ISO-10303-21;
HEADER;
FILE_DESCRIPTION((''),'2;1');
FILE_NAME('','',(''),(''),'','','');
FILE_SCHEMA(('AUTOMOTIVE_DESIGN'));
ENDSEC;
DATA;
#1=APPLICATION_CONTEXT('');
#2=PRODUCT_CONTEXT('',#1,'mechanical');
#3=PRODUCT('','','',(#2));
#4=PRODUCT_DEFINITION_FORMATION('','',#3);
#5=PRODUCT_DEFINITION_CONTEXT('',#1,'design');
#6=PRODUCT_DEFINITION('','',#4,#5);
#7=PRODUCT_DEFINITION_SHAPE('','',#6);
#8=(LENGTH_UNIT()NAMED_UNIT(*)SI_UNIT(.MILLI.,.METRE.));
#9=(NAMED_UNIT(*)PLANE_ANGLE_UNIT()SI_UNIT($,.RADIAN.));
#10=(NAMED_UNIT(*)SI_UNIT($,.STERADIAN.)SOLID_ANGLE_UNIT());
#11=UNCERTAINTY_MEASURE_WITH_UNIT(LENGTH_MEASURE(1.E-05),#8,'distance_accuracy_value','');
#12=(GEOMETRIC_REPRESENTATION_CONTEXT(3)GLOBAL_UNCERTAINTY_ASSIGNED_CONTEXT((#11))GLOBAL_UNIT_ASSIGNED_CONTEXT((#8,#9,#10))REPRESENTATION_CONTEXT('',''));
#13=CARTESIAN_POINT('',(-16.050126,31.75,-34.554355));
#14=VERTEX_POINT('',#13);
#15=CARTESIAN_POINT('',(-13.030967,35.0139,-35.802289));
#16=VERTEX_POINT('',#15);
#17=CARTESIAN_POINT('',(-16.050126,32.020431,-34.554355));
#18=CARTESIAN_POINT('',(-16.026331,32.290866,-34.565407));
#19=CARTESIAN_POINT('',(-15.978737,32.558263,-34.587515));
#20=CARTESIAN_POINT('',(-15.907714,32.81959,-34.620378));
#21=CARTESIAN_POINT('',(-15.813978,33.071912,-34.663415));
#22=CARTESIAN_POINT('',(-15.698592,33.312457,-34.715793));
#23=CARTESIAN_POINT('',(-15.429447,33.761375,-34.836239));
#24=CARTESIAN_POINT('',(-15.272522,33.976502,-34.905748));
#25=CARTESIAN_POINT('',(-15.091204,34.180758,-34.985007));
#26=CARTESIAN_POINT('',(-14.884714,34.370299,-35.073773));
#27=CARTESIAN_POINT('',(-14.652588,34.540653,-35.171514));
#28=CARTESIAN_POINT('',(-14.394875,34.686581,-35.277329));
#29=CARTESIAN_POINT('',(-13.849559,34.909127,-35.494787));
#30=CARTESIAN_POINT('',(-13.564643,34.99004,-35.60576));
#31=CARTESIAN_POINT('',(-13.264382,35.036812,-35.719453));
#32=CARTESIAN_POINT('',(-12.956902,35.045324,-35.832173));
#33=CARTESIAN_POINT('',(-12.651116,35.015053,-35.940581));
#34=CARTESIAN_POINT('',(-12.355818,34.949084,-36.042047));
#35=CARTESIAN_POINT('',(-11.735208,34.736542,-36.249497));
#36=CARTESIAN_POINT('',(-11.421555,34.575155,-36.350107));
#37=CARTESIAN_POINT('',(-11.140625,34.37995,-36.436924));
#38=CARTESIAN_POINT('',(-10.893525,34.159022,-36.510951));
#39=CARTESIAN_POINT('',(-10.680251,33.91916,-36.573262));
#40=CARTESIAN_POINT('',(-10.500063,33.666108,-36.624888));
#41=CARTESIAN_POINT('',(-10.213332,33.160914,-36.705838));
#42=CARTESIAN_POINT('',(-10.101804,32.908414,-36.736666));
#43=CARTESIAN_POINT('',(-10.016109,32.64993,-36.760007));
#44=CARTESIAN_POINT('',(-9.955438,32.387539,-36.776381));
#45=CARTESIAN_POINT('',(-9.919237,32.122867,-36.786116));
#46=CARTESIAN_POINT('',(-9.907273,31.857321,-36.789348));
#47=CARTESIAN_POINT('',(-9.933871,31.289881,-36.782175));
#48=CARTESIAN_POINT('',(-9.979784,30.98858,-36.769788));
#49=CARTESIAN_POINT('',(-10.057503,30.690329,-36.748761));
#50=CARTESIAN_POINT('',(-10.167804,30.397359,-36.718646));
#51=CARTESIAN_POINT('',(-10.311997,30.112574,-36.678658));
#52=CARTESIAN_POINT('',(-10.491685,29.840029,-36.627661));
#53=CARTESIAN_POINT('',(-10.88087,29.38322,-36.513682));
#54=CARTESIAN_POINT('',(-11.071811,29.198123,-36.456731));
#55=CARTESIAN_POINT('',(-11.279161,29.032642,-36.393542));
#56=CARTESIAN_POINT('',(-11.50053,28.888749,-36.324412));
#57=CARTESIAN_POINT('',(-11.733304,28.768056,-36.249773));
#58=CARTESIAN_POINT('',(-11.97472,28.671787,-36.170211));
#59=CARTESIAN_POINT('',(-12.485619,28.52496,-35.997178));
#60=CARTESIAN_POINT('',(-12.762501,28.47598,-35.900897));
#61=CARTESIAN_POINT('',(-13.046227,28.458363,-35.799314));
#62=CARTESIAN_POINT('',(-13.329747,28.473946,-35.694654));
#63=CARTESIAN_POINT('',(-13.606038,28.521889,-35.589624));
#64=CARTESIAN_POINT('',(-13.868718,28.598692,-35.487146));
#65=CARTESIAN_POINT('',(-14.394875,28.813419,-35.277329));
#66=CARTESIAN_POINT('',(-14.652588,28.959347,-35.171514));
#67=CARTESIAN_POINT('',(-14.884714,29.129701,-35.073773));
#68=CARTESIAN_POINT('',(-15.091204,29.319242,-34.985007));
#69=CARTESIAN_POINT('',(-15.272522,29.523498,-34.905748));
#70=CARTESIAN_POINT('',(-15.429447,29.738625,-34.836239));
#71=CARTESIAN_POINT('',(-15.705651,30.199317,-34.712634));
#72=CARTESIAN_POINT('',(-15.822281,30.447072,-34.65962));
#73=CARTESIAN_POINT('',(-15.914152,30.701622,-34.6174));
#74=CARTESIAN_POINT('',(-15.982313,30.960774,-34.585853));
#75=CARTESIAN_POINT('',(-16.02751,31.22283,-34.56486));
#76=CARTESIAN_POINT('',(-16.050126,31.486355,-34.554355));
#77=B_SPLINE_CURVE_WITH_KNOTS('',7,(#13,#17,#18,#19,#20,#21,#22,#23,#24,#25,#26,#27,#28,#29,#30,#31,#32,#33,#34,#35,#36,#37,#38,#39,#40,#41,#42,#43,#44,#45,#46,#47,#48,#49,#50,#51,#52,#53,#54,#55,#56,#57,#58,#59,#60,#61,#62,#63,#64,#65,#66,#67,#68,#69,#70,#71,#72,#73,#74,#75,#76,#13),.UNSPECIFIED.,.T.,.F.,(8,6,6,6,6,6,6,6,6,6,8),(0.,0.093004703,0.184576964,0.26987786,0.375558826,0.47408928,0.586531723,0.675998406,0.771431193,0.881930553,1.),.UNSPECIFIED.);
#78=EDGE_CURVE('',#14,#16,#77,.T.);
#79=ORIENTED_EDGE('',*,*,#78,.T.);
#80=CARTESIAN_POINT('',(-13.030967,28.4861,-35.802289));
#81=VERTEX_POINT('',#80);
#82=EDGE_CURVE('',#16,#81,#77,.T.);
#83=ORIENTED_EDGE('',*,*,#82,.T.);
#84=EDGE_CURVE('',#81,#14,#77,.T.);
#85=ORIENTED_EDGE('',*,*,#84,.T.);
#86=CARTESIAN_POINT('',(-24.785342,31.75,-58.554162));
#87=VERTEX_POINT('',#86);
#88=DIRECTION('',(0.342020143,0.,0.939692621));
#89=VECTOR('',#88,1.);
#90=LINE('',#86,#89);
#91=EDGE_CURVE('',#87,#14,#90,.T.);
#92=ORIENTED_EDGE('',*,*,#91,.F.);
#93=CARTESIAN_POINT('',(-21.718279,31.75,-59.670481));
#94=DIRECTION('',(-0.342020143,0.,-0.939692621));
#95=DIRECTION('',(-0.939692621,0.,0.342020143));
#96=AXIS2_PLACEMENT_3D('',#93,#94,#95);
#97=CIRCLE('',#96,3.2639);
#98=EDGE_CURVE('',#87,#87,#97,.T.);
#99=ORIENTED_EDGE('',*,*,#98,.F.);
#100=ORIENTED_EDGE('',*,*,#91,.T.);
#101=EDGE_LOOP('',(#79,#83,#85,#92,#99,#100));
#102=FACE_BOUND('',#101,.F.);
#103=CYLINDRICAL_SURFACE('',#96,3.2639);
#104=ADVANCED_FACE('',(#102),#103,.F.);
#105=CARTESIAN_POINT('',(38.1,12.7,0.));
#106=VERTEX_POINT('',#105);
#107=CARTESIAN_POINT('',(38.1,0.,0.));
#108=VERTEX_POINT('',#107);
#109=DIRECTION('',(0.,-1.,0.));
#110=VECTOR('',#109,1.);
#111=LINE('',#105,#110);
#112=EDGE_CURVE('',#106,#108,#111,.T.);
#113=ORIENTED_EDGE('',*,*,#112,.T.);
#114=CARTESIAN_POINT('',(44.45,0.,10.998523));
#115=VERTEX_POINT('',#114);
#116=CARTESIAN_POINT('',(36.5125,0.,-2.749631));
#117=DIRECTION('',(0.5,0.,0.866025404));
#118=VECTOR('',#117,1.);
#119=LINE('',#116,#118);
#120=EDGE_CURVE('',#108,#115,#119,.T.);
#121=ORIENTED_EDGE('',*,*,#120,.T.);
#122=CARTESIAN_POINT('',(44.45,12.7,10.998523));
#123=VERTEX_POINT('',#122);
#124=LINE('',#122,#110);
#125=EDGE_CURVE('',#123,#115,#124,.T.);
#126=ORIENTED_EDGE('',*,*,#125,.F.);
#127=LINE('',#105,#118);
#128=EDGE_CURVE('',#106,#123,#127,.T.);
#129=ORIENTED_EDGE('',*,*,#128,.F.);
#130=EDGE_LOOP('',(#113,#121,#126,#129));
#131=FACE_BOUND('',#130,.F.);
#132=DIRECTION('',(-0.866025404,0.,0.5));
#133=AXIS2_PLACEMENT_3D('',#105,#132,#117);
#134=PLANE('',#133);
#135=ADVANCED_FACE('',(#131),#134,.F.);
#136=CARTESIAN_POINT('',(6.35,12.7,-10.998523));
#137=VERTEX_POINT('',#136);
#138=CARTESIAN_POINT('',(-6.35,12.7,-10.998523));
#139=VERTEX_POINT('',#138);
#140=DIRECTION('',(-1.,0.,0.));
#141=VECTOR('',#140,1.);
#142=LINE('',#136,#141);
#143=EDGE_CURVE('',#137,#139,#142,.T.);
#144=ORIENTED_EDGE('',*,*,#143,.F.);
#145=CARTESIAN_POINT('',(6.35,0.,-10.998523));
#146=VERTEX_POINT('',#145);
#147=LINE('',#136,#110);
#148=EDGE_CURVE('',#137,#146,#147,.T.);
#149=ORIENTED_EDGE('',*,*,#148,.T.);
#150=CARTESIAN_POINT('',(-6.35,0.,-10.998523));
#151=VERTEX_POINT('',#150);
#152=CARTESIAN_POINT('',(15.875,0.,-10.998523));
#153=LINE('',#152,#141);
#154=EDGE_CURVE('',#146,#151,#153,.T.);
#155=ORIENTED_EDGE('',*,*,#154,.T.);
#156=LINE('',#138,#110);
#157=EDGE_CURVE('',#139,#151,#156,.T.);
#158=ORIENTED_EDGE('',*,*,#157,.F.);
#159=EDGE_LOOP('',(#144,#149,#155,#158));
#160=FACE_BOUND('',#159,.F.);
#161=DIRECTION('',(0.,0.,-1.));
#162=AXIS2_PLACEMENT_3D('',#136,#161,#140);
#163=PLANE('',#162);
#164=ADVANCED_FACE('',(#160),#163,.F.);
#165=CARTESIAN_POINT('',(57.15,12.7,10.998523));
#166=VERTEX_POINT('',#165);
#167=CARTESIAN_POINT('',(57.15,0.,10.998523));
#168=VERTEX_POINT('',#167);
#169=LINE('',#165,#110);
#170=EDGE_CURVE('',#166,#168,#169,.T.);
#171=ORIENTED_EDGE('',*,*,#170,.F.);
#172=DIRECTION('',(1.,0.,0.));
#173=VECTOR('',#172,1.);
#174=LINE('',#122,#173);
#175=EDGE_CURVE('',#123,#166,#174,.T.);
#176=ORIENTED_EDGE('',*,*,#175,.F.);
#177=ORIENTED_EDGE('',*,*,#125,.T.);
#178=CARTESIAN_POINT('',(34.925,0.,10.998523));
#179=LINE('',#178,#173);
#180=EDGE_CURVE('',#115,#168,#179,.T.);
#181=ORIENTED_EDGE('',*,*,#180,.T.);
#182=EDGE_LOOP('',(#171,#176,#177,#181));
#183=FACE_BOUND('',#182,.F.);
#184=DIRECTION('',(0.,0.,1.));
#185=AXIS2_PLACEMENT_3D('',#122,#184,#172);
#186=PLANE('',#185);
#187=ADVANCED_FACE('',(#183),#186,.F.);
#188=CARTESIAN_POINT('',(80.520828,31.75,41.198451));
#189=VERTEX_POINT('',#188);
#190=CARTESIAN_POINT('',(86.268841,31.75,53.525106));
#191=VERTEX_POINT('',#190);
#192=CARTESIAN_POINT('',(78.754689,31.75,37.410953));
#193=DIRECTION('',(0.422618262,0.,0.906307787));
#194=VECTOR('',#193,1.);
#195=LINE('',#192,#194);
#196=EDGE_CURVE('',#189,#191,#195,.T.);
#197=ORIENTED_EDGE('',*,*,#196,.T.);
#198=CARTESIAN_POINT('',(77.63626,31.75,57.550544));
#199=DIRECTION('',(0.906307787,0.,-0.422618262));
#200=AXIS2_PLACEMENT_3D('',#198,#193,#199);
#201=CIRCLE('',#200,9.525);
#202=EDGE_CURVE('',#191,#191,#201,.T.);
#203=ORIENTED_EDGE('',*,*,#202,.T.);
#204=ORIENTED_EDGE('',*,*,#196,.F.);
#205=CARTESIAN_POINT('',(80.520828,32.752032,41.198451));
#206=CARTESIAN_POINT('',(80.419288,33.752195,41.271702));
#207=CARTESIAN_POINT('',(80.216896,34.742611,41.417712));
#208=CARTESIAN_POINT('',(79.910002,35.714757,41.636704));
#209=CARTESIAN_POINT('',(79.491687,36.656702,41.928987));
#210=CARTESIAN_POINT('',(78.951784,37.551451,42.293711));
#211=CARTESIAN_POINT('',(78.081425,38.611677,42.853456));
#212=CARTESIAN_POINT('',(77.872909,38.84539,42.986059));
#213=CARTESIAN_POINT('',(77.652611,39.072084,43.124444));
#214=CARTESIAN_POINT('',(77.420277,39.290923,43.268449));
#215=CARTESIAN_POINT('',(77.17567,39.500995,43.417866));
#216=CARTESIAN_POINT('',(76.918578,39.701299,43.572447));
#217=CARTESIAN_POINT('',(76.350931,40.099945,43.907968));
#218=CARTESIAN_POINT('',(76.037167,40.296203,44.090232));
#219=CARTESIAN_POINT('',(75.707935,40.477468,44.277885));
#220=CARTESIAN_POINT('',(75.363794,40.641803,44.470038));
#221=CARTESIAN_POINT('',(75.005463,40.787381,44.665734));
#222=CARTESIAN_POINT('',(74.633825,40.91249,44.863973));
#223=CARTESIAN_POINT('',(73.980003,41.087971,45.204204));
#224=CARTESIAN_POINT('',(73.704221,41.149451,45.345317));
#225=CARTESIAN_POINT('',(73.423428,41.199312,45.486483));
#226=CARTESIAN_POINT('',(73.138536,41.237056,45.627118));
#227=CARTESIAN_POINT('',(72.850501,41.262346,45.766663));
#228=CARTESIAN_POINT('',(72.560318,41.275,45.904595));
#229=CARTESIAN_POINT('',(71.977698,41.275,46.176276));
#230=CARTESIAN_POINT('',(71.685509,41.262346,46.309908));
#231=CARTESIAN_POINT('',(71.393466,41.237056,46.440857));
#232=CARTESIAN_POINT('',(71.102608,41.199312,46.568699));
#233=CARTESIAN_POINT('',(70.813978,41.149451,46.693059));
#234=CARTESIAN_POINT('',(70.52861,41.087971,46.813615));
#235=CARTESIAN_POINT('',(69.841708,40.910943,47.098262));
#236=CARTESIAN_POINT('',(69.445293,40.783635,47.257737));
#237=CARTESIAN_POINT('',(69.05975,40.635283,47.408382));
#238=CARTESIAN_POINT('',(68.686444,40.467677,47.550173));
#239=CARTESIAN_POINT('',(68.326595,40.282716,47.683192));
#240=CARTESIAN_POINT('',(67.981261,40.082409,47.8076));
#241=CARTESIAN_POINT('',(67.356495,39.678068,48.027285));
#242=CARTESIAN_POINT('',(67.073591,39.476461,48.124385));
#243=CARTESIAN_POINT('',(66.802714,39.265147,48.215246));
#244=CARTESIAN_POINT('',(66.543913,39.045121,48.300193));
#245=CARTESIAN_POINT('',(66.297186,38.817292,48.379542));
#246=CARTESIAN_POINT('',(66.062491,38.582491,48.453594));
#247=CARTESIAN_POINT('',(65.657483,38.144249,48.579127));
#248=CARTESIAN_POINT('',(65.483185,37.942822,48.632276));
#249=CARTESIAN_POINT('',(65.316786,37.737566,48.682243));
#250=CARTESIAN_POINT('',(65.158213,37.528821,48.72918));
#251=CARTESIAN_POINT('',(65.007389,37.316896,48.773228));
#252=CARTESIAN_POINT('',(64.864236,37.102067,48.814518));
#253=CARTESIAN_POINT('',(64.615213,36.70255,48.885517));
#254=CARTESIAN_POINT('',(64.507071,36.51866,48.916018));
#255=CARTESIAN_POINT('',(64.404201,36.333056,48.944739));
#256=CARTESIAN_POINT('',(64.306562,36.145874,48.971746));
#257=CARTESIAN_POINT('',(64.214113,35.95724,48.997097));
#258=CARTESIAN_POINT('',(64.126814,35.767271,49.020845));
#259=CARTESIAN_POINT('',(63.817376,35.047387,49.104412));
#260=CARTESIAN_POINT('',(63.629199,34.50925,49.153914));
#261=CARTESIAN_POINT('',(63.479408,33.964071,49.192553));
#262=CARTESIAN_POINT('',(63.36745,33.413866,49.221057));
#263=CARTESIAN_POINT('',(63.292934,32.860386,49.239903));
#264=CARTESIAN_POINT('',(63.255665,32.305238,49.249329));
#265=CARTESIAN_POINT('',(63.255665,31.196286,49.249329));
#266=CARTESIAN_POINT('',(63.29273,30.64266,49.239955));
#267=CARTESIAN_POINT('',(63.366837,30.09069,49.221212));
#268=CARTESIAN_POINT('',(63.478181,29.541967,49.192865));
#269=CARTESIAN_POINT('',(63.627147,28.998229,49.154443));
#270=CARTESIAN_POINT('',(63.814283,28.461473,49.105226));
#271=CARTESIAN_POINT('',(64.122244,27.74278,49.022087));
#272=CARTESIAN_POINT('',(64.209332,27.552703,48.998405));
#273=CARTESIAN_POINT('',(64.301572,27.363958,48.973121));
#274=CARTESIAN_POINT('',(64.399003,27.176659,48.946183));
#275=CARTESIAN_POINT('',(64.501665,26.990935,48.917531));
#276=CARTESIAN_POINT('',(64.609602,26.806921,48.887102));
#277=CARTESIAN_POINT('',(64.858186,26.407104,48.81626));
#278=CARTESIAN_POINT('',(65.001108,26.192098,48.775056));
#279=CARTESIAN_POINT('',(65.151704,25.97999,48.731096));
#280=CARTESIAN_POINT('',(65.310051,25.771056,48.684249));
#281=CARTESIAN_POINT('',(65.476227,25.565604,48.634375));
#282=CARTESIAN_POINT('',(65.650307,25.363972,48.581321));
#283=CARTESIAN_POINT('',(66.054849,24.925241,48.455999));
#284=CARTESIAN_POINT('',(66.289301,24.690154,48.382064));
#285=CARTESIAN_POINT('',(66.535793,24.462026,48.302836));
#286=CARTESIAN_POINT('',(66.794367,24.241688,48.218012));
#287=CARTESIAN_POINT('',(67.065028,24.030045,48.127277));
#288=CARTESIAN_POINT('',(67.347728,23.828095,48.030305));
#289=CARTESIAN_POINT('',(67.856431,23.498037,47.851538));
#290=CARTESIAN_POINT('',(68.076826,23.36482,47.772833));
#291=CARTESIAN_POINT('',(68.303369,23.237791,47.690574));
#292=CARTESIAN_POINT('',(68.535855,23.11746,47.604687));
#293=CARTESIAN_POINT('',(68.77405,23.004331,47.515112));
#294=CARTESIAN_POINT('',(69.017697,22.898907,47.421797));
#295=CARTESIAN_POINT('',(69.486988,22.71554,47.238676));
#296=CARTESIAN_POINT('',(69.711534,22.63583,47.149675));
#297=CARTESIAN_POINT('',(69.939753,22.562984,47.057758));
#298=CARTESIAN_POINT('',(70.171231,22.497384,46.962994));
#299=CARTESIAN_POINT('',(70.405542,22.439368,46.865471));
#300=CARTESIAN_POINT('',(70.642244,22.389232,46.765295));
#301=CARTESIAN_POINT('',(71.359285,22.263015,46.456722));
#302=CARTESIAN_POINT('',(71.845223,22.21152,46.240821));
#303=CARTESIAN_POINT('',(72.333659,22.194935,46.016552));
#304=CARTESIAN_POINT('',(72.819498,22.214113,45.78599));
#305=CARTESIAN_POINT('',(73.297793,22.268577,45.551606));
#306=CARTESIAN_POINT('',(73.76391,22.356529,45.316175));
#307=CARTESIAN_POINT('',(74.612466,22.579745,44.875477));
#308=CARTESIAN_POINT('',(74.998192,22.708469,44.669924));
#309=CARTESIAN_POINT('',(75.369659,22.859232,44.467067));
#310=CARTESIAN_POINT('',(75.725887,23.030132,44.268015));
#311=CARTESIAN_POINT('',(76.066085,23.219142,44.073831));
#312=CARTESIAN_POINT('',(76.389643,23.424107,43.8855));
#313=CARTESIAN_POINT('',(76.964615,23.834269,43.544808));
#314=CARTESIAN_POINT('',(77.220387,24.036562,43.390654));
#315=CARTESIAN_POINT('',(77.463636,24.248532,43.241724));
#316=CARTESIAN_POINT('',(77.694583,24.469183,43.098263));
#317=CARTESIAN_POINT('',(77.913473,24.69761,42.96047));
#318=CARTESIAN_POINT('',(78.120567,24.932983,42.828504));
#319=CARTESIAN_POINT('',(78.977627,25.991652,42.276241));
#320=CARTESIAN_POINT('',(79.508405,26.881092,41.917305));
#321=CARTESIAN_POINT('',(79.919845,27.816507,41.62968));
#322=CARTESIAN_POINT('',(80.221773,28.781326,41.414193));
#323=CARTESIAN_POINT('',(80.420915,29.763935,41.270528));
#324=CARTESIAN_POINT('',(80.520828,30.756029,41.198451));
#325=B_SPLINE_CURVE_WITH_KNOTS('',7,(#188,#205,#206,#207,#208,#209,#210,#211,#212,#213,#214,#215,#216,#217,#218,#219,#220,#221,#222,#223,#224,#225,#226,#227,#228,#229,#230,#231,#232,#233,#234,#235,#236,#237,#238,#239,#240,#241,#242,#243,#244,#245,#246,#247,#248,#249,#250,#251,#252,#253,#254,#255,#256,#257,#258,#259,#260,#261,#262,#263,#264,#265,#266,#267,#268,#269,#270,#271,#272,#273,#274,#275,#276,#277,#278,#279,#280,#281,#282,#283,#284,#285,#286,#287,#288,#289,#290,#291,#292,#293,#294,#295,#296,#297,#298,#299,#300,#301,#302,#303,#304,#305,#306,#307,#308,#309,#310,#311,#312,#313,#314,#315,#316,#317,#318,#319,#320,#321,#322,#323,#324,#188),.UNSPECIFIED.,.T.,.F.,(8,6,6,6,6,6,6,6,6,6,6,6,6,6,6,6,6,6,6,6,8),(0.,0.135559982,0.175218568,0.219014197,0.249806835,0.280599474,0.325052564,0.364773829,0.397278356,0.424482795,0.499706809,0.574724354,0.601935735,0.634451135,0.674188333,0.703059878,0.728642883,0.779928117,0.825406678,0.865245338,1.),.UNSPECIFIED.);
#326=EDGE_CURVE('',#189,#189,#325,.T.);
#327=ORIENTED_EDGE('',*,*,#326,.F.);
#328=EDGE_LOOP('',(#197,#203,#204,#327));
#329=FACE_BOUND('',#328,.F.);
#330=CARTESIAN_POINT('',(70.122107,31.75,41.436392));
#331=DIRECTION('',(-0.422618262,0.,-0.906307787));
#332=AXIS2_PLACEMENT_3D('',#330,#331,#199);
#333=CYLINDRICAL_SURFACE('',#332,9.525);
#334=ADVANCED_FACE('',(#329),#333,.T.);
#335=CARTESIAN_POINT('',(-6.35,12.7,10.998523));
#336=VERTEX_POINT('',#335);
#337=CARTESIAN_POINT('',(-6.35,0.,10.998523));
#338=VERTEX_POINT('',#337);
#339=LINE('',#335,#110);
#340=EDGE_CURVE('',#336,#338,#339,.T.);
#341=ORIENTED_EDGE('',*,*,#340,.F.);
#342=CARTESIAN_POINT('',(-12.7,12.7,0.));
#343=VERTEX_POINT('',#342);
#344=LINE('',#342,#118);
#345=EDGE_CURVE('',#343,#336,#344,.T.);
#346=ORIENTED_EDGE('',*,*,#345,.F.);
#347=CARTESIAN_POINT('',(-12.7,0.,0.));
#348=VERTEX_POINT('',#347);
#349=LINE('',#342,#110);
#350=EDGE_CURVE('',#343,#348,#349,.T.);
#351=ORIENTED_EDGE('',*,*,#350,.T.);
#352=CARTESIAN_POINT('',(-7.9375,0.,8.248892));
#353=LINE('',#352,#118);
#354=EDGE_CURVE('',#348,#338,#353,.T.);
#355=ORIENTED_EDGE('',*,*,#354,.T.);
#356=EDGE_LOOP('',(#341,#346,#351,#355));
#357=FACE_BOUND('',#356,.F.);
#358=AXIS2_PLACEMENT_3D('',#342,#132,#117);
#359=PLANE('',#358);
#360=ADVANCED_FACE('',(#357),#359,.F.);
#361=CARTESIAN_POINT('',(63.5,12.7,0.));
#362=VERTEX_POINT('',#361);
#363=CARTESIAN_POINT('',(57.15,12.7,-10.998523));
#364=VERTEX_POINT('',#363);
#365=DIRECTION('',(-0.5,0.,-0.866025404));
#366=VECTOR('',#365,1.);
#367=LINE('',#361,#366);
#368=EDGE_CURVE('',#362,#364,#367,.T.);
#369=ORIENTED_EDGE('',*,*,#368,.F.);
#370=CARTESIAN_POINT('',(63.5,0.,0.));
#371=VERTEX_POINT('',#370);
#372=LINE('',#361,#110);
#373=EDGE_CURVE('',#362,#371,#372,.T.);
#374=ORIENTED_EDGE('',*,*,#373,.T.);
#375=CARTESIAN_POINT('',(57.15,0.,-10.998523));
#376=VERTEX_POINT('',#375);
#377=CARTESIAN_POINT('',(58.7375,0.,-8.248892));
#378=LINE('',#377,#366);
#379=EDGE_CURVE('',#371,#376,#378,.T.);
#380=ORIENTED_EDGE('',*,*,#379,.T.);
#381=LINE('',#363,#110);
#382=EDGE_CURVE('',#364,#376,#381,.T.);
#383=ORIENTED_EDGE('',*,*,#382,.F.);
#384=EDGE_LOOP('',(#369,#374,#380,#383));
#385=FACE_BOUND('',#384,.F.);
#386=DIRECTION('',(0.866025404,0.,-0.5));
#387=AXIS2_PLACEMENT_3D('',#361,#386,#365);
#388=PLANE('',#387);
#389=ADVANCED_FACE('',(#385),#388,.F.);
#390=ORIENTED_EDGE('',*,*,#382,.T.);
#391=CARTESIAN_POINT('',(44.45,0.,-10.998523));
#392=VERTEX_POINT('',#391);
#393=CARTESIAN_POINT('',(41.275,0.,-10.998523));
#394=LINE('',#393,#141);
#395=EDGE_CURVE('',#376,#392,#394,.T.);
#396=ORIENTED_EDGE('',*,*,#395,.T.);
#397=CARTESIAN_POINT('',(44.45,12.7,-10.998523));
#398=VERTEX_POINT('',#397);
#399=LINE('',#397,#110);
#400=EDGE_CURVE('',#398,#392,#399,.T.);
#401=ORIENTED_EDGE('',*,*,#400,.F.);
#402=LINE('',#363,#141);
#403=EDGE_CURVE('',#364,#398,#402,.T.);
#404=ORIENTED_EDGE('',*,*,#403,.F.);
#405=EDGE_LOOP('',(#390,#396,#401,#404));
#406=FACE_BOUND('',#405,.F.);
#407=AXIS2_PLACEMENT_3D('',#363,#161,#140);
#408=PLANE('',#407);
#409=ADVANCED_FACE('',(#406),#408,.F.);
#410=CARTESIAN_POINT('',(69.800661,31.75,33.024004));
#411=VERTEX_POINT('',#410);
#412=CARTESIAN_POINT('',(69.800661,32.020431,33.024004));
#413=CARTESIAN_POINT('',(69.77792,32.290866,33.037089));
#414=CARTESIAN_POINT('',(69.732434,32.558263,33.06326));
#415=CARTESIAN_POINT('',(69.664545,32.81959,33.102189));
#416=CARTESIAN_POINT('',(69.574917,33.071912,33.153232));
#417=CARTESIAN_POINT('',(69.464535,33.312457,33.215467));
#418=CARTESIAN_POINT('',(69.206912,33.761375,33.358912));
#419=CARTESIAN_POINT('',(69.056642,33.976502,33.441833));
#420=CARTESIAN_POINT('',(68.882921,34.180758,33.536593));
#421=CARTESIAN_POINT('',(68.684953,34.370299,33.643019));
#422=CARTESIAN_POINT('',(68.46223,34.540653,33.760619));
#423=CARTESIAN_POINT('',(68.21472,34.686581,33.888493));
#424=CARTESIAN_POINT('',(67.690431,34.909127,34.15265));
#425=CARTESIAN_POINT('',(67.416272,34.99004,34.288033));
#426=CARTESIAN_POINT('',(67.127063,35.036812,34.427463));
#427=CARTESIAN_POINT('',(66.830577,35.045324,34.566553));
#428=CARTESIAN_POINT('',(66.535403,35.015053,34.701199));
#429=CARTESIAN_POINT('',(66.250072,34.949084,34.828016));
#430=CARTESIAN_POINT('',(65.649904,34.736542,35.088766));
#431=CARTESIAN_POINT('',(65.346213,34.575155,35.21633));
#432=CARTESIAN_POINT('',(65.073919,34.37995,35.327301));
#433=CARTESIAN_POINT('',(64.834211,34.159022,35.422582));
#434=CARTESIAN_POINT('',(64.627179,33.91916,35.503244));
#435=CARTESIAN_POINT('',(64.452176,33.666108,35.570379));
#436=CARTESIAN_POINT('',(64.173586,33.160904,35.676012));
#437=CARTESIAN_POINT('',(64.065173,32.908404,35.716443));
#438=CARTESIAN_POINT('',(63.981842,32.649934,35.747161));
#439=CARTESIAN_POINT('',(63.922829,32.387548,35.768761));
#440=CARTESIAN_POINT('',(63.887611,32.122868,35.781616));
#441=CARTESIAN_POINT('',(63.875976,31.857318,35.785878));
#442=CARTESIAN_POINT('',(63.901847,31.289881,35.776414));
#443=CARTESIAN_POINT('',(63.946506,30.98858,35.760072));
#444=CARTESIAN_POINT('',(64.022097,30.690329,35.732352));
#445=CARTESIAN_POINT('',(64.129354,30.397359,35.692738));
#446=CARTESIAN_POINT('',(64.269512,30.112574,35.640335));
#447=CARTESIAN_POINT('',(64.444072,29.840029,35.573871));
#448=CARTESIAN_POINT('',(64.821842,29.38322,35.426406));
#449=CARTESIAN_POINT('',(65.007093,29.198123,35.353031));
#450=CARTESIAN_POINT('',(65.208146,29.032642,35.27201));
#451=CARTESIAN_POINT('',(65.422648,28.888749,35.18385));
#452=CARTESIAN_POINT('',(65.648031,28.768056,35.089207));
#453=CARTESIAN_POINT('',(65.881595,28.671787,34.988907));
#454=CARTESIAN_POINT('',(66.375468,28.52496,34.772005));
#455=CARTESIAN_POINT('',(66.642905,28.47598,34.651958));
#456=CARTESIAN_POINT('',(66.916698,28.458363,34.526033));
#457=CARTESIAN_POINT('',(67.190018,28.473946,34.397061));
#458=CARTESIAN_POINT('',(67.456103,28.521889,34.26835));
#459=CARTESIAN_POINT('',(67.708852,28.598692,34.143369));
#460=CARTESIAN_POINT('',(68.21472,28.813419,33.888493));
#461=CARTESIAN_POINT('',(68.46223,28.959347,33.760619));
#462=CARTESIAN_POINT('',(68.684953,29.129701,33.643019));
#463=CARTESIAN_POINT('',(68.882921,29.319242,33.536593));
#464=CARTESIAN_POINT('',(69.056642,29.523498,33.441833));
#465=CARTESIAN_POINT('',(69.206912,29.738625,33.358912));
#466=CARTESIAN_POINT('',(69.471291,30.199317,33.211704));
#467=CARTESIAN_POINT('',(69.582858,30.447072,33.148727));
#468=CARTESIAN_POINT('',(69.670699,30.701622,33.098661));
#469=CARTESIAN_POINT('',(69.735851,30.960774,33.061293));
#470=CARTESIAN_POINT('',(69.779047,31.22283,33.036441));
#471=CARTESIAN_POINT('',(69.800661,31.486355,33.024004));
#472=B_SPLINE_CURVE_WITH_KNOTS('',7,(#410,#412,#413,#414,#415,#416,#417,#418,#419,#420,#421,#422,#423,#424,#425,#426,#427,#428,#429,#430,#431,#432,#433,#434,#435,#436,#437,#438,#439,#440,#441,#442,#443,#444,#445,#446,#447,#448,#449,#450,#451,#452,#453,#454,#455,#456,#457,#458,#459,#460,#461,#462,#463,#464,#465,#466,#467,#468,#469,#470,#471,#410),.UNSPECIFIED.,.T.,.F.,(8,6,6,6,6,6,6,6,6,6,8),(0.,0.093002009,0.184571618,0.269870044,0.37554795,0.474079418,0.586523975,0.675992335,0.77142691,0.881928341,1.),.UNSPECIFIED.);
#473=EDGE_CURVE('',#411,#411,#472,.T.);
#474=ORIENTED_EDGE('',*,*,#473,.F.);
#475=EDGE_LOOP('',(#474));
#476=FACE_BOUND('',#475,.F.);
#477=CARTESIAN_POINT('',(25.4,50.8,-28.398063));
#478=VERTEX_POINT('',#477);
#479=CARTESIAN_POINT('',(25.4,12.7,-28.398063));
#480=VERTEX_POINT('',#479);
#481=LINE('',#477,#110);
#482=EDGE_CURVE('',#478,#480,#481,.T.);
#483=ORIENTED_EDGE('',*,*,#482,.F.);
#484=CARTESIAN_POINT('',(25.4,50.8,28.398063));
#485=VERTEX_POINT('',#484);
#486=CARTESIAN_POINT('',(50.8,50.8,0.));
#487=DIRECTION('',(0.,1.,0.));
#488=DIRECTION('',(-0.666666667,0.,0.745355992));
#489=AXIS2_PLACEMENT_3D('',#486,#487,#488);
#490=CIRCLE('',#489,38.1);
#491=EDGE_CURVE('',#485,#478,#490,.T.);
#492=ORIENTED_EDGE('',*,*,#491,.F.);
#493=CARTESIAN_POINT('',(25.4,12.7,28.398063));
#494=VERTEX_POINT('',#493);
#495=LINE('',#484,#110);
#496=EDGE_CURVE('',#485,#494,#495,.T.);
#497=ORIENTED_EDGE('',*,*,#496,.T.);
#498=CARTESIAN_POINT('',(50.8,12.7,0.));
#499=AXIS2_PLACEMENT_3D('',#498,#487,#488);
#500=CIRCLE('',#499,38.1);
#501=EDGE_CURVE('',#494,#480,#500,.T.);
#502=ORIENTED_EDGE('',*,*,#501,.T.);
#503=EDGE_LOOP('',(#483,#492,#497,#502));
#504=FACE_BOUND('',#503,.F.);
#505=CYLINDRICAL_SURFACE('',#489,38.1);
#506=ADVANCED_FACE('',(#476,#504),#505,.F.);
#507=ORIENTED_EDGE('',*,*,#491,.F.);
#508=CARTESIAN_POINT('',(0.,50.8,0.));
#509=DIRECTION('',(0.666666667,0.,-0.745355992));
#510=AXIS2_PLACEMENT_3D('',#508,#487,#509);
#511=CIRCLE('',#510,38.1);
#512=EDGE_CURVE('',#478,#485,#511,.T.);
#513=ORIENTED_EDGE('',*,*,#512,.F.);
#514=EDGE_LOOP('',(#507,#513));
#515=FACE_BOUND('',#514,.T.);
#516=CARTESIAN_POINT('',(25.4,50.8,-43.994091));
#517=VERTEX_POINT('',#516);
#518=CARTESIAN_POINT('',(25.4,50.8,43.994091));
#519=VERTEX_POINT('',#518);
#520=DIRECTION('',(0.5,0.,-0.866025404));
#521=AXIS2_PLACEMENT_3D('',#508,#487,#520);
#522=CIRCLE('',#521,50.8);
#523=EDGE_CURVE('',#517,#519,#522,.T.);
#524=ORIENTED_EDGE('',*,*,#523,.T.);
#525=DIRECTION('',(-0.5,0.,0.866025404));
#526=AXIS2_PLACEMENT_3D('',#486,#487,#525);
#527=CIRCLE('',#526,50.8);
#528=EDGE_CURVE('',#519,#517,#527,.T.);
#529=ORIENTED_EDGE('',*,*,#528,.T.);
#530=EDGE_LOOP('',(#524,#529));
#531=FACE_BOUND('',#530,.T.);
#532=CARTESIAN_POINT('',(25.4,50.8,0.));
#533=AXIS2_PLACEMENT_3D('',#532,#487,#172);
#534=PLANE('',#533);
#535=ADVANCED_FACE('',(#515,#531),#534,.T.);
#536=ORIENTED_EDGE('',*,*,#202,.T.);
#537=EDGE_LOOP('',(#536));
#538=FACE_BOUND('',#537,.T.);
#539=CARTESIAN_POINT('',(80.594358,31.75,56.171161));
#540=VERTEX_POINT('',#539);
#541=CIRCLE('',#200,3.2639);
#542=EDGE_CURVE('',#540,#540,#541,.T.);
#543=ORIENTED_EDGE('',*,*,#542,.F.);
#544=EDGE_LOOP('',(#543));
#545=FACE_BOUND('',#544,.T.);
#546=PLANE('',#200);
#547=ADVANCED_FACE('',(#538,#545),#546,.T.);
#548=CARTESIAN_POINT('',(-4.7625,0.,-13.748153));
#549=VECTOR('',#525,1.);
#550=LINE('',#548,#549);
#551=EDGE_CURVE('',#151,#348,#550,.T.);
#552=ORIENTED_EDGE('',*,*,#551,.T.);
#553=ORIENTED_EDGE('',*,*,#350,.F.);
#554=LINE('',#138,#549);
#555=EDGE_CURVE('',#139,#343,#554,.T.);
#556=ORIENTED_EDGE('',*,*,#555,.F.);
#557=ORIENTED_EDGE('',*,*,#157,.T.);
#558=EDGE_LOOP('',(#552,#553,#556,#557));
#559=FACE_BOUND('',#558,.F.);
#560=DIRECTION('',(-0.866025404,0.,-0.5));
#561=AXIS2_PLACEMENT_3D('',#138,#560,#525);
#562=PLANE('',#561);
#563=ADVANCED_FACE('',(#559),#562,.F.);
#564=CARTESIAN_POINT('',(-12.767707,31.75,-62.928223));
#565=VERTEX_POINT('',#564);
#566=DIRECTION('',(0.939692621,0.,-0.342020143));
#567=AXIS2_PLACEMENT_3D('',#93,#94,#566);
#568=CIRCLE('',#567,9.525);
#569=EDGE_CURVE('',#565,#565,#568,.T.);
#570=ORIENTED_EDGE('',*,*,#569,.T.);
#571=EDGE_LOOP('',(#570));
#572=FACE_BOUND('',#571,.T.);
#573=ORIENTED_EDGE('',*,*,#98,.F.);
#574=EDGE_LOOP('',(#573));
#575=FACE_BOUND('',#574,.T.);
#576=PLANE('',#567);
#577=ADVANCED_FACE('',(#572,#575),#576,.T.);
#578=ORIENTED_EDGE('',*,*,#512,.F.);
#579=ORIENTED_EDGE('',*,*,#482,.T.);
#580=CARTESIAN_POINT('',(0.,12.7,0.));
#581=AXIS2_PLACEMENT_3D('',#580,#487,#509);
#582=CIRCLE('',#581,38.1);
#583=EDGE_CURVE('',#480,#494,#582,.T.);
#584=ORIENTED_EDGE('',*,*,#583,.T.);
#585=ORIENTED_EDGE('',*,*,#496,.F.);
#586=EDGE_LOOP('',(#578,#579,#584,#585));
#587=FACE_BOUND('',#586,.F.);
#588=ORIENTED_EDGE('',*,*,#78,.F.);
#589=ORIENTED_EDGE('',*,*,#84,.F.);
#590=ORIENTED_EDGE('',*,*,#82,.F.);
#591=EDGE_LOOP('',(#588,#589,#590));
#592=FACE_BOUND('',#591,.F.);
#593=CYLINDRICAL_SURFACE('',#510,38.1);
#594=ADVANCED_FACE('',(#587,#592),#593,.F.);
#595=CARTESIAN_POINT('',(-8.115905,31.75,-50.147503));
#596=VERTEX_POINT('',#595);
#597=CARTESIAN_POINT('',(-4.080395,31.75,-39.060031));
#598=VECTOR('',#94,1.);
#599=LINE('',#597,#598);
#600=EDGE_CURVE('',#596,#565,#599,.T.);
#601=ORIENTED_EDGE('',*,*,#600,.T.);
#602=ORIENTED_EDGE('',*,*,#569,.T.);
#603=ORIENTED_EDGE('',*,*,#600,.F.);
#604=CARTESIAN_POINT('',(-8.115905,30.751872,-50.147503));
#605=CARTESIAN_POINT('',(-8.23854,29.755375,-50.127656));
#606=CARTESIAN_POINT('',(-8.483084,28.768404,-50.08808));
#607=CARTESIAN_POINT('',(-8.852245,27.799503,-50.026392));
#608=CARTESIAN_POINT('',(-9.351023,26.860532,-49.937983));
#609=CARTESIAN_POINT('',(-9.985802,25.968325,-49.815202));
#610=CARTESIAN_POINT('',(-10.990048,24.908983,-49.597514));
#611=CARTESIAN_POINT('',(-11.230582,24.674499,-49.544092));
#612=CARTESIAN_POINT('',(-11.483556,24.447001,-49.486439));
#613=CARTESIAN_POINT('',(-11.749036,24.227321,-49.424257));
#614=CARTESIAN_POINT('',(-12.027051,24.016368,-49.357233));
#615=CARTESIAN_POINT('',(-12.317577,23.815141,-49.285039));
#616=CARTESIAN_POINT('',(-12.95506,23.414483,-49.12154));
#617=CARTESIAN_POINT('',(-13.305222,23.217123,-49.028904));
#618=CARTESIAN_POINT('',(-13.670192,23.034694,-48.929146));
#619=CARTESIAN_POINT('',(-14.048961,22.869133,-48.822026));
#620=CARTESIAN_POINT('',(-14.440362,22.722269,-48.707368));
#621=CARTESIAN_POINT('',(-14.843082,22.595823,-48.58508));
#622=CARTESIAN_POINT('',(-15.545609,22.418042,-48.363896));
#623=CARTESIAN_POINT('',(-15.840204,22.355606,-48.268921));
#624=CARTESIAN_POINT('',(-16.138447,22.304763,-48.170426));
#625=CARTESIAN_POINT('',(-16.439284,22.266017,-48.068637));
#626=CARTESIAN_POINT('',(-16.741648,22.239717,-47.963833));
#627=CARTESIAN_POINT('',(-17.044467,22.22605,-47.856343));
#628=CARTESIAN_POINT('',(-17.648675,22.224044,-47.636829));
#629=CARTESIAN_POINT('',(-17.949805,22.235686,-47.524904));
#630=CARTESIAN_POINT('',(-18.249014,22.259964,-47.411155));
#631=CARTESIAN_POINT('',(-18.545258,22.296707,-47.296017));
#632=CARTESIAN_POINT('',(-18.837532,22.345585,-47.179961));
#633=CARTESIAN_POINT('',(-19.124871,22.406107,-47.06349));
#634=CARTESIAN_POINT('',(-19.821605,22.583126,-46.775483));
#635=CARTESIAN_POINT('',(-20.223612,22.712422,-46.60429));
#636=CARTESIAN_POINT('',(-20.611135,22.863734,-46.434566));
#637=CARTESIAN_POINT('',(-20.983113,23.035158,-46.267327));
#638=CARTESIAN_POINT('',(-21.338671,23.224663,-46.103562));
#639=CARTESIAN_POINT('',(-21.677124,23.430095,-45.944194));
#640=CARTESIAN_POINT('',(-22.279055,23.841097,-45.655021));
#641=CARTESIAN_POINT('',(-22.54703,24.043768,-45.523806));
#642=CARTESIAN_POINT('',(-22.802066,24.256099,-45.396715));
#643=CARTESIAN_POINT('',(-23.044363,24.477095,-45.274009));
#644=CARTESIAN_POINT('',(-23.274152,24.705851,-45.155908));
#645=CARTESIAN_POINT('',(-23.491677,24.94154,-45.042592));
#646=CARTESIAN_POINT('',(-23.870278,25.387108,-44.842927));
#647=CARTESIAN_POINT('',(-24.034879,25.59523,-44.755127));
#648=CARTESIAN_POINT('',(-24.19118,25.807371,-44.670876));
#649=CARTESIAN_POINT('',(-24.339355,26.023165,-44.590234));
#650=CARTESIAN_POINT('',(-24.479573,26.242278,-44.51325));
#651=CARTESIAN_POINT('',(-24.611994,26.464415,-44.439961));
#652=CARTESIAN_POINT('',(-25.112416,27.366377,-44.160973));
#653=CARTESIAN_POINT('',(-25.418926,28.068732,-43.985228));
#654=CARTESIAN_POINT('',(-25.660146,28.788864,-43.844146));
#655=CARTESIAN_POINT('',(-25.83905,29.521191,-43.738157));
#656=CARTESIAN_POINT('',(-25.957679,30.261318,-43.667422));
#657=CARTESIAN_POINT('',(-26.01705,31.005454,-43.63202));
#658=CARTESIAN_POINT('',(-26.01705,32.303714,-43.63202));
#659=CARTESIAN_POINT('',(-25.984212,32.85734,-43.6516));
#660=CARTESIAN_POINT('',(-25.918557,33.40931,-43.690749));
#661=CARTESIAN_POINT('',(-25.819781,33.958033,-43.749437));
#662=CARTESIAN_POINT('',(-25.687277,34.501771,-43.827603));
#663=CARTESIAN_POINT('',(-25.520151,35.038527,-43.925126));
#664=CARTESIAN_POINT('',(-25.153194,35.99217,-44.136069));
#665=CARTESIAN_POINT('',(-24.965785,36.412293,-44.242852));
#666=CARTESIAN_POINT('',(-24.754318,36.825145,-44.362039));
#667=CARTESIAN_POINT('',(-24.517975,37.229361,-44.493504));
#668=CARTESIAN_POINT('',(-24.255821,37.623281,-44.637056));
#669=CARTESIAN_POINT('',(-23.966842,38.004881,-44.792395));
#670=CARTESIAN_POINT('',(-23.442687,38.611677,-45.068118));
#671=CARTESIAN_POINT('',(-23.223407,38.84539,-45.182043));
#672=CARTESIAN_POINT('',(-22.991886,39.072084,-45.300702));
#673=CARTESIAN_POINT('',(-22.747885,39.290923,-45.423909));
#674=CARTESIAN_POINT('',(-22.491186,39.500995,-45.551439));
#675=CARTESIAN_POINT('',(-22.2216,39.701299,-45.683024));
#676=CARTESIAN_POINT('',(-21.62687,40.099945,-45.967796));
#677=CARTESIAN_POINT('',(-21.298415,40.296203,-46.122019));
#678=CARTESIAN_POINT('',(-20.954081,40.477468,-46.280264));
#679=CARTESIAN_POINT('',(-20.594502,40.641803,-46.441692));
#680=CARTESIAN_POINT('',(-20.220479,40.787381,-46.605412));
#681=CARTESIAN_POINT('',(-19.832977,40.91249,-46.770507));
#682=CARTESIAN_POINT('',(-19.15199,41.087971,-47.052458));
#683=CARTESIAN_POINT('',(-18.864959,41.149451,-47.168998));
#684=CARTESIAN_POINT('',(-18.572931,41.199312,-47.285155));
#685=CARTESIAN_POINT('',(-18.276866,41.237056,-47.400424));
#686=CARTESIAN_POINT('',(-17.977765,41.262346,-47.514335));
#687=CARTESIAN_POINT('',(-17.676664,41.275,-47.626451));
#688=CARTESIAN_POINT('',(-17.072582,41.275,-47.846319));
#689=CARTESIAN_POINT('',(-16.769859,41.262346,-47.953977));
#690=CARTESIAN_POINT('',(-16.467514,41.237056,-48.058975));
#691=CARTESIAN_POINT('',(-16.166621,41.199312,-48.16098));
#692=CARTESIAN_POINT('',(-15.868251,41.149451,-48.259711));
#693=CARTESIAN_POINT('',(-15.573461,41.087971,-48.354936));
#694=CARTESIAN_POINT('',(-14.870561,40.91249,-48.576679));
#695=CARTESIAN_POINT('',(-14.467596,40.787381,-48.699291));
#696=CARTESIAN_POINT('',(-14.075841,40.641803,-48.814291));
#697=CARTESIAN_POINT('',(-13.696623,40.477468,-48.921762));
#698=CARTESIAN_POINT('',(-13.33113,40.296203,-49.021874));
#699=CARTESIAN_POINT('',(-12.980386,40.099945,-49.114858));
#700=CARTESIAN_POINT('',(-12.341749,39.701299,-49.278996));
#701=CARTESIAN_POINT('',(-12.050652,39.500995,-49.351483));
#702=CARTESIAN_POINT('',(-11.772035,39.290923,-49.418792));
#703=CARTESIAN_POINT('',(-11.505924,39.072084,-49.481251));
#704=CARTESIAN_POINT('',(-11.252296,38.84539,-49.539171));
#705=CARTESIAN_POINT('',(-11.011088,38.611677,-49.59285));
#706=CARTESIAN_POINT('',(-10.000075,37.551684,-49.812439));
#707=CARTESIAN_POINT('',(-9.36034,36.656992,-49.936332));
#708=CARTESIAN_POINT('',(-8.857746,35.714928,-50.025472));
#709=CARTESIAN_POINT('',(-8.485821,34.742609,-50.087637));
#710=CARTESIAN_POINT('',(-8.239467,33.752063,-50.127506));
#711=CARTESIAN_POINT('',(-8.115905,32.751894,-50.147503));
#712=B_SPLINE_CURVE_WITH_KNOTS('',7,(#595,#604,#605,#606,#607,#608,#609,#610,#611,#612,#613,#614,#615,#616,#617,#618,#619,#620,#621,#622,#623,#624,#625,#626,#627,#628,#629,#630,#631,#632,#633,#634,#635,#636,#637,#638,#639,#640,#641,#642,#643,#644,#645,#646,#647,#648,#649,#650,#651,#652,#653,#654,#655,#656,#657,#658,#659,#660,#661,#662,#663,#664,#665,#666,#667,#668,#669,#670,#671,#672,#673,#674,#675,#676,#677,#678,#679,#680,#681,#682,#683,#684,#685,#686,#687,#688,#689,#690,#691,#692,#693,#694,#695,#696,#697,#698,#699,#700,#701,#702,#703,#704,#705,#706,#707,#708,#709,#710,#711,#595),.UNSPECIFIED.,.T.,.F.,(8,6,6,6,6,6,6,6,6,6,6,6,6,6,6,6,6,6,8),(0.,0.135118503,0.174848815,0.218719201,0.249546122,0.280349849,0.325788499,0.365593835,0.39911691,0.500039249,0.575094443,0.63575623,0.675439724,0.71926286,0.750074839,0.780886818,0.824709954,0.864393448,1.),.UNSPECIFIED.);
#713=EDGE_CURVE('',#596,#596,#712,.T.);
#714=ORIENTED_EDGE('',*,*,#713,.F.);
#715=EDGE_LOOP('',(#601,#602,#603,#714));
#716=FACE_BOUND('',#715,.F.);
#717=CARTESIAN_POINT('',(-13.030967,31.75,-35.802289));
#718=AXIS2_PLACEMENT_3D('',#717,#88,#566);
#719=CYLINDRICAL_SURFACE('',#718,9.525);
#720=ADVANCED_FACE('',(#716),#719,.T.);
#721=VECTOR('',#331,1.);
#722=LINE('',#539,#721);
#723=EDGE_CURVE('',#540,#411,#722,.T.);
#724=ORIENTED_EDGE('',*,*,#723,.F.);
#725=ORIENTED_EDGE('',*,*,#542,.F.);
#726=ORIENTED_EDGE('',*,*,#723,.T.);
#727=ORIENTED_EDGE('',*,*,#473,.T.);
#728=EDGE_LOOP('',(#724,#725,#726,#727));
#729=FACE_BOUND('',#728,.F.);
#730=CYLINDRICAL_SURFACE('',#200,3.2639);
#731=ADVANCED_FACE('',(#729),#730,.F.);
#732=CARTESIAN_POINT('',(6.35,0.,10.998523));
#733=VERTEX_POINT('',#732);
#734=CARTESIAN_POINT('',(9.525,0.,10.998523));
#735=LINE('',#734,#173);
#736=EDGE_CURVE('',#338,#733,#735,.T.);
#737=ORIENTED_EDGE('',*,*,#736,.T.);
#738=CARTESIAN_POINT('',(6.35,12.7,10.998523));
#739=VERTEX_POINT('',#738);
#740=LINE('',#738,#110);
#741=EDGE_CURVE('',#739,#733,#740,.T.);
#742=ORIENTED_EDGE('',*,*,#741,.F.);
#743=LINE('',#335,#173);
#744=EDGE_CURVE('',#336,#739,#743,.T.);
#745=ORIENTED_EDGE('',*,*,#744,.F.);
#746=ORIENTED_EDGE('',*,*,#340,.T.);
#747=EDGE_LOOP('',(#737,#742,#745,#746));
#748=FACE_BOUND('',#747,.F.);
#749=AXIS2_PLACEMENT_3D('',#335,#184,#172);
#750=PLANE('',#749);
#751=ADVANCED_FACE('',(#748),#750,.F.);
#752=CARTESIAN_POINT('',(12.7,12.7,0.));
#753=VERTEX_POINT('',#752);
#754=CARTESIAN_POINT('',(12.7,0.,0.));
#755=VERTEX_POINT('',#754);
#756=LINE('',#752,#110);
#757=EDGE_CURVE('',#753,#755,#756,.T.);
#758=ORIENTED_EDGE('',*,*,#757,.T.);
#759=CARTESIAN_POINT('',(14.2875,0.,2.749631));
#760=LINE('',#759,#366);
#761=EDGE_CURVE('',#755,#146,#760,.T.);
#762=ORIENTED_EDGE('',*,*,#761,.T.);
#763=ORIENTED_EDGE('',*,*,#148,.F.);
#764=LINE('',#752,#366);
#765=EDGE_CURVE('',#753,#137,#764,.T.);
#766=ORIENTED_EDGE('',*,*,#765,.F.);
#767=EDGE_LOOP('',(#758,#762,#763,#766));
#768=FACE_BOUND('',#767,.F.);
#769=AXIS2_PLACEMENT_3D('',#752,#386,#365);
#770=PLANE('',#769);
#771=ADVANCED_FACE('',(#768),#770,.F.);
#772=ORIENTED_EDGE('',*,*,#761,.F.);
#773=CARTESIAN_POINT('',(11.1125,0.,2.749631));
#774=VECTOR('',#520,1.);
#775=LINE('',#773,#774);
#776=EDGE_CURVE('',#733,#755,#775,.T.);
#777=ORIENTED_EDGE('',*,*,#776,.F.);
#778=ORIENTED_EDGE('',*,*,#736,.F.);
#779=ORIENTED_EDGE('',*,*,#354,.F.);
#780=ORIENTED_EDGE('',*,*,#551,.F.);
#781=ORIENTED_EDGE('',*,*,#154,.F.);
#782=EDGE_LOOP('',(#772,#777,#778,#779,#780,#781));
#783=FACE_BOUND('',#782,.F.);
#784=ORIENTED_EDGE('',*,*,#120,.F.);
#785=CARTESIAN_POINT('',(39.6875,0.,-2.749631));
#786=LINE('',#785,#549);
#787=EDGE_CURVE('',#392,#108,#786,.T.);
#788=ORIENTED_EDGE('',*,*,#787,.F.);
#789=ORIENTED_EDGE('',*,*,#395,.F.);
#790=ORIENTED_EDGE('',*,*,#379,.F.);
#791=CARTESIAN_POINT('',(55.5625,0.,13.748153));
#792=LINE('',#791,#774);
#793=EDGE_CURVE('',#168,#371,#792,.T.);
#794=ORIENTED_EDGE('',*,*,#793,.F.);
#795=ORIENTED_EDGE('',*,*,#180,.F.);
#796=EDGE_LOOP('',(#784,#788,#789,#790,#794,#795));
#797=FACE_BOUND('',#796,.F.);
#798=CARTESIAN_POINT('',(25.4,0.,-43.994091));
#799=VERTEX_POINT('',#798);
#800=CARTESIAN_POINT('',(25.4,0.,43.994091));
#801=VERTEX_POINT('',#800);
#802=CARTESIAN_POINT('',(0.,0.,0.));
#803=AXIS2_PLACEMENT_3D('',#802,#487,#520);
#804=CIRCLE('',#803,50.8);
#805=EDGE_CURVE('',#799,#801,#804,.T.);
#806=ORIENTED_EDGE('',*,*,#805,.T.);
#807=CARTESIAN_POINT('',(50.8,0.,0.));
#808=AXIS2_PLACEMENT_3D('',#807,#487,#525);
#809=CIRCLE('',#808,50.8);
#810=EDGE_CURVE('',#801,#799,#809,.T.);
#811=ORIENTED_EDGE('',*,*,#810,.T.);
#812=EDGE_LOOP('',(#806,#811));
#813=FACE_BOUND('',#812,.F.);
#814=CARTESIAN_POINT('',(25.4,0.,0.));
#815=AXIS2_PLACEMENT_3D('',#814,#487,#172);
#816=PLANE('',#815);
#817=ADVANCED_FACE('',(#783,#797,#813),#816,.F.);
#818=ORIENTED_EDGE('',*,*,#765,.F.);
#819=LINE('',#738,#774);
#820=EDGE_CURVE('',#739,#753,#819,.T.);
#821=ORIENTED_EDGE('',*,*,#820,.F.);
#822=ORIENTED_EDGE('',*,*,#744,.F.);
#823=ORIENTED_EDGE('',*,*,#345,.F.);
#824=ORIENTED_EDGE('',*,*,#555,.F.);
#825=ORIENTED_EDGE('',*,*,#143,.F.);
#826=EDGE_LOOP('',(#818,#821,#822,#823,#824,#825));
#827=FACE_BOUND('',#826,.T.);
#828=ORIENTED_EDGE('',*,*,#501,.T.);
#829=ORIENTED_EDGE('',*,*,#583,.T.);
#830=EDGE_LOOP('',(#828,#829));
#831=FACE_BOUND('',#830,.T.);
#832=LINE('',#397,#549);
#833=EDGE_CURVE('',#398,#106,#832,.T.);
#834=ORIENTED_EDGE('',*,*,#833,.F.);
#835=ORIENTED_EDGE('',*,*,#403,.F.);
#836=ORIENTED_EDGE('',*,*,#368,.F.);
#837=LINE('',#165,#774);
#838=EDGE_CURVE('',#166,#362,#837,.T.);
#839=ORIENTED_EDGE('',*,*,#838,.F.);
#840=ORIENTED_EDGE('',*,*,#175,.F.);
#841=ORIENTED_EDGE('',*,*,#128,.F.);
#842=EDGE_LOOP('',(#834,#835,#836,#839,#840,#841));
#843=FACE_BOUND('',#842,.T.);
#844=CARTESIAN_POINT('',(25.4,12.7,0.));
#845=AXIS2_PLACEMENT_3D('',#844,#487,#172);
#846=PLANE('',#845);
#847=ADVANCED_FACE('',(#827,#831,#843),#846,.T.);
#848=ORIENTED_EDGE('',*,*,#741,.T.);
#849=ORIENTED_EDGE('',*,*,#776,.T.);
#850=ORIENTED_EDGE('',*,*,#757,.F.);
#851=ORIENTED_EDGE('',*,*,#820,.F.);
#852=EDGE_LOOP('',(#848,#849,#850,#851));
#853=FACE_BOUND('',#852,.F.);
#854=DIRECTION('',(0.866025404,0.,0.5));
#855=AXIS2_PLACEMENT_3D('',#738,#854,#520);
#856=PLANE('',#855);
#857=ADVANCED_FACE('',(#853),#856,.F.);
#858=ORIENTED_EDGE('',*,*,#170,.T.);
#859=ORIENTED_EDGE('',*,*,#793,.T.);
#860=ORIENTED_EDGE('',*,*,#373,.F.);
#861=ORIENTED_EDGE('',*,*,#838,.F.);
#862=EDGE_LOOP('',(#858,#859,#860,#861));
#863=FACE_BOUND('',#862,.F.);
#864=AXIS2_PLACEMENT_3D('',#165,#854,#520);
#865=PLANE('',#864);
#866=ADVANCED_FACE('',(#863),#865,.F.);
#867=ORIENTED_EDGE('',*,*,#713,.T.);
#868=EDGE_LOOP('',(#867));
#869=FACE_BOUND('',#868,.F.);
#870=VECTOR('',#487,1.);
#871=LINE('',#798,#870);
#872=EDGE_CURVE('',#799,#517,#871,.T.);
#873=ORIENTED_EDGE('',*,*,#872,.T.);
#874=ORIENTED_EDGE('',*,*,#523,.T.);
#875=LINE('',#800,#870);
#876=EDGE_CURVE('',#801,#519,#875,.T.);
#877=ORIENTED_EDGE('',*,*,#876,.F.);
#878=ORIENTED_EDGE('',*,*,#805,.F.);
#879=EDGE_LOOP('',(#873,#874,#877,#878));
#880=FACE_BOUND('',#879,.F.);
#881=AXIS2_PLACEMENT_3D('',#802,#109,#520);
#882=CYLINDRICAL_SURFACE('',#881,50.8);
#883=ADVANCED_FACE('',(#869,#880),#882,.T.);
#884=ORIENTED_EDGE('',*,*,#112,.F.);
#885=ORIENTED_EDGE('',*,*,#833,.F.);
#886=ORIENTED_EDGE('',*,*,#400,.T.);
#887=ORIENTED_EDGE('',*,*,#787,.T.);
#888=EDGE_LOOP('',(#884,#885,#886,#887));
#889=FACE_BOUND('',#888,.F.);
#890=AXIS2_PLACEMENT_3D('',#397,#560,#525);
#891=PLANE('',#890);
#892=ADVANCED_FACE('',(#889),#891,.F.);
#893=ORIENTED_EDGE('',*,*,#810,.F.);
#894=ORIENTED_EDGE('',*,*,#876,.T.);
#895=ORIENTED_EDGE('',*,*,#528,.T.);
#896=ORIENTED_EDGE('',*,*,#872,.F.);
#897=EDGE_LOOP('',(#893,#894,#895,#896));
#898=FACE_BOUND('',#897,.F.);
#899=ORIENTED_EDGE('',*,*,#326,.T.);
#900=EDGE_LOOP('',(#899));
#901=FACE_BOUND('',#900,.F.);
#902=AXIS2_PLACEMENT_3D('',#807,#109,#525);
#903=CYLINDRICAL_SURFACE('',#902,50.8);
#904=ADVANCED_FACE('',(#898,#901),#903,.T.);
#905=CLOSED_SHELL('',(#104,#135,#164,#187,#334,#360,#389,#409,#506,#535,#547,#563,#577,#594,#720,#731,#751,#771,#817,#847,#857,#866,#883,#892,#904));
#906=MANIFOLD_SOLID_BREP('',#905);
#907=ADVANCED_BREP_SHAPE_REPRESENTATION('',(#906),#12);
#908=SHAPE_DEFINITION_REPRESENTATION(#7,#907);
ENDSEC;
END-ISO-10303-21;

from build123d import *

# Parameters (mm, degrees)
BOSS_EXTRUDE1_DEPTH           = 50.8
CUT_EXTRUDE1_DEPTH            = 38.1
CUT_EXTRUDE2_DEPTH            = 38.1
BOSS_EXTRUDE3_DEPTH           = 12.7
BOSS_EXTRUDE3_DEPTH_BACK      = 12.7
SKETCH16_R                    = 9.525
F_5_16_18_TAPPED_HOLE4_REACH  = 170.58
F_5_16_18_TAPPED_HOLE4_BORE_R = 3.2639
BOSS_EXTRUDE6_DEPTH           = 12.7
BOSS_EXTRUDE6_DEPTH_BACK      = 5.08
SKETCH20_R                    = 9.525
F_5_16_18_TAPPED_HOLE5_REACH  = 180.939
F_5_16_18_TAPPED_HOLE5_BORE_R = 3.2639


with BuildPart() as part:
    # Sketch1 → Boss-Extrude1 (new body)
    with BuildSketch(Plane(origin=(0, 0, 0), x_dir=(1, 0, 0), z_dir=(0, 1, 0))):
        with BuildLine():
            ThreePointArc((25.4, 43.994090512), (-50.8, 0), (25.4, -43.994090512))
            ThreePointArc((25.4, -43.994090512), (101.6, 0), (25.4, 43.994090512))
        make_face()
    extrude(amount=BOSS_EXTRUDE1_DEPTH)

    # Sketch3 → Cut-Extrude1 (cut)
    with BuildSketch(Plane(origin=(0, 50.8, 0), x_dir=(1, 0, 0), z_dir=(0, 1, 0))):
        with BuildLine():
            ThreePointArc((25.4, -28.398063314), (88.9, 0), (25.4, 28.398063314))
            ThreePointArc((25.4, 28.398063314), (-38.1, 0), (25.4, -28.398063314))
        make_face()
    extrude(amount=-CUT_EXTRUDE1_DEPTH, mode=Mode.SUBTRACT)

    # Sketch5 → Cut-Extrude2 (cut)
    with BuildSketch(Plane(origin=(0, 12.7, 0), x_dir=(1, 0, 0), z_dir=(0, 1, 0))):
        Polygon((63.5, 0), (57.15, 10.998522628), (44.45, 10.998522628), (38.1, 0), (44.45, -10.998522628), (57.15, -10.998522628), align=None)
        Polygon((12.7, 0), (6.35, 10.998522628), (-6.35, 10.998522628), (-12.7, 0), (-6.35, -10.998522628), (6.35, -10.998522628), align=None)
    extrude(amount=-CUT_EXTRUDE2_DEPTH, mode=Mode.SUBTRACT)

    # Sketch16 → Boss-Extrude3 (add, two sides: drawn at the far end of the back side and taken through both)
    with BuildSketch(Plane(origin=(-17.374623281, 0, -47.736385136), x_dir=(0, -1, 0), z_dir=(-0.34202014332566666, 0, -0.9396926207859091)).offset(-BOSS_EXTRUDE3_DEPTH_BACK)):
        with Locations(Location((-31.75, 0, 0), (0, 0, 270))):
            Circle(SKETCH16_R)
    extrude(amount=BOSS_EXTRUDE3_DEPTH + BOSS_EXTRUDE3_DEPTH_BACK)

    # 5/16-18 Tapped Hole4 bore (on position points) → 5/16-18 Tapped Hole4 (cut, up to next)
    with BuildSketch(Plane(origin=(-21.718279101, 31.75, -59.67048142), x_dir=(-0.939692620786, 0, 0.342020143326), z_dir=(-0.342020143326, 0, -0.939692620786)), mode=Mode.PRIVATE) as f_5_16_18_tapped_hole4_sk1:
        Circle(F_5_16_18_TAPPED_HOLE4_BORE_R)
    f_5_16_18_tapped_hole4_tool1 = extrude(f_5_16_18_tapped_hole4_sk1.sketch, amount=-F_5_16_18_TAPPED_HOLE4_REACH, mode=Mode.PRIVATE) & part.part
    add(f_5_16_18_tapped_hole4_tool1.solids().sort_by_distance((-21.718279, 31.75, -59.670481))[0], mode=Mode.SUBTRACT)

    # Sketch20 → Boss-Extrude6 (add, two sides: drawn at the far end of the back side and taken through both)
    with BuildSketch(Plane(origin=(30.54220241, 0, 65.497964437), x_dir=(0, -1, 0), z_dir=(0.42261826174068773, 0, 0.9063077870366555)).offset(-BOSS_EXTRUDE6_DEPTH_BACK)):
        with Locations(Location((-31.75, 46.040435581, 0), (0, 0, 90))):
            Circle(SKETCH20_R)
    extrude(amount=BOSS_EXTRUDE6_DEPTH + BOSS_EXTRUDE6_DEPTH_BACK)

    # 5/16-18 Tapped Hole5 bore (on position points) → 5/16-18 Tapped Hole5 (cut, up to next)
    with BuildSketch(Plane(origin=(77.636259621, 31.75, 57.550544477), x_dir=(0.906307787037, 0, -0.422618261741), z_dir=(0.422618261741, 0, 0.906307787037)), mode=Mode.PRIVATE) as f_5_16_18_tapped_hole5_sk1:
        Circle(F_5_16_18_TAPPED_HOLE5_BORE_R)
    f_5_16_18_tapped_hole5_tool1 = extrude(f_5_16_18_tapped_hole5_sk1.sketch, amount=-F_5_16_18_TAPPED_HOLE5_REACH, mode=Mode.PRIVATE) & part.part
    add(f_5_16_18_tapped_hole5_tool1.solids().sort_by_distance((77.63626, 31.75, 57.550544))[0], mode=Mode.SUBTRACT)


solid = part.part
